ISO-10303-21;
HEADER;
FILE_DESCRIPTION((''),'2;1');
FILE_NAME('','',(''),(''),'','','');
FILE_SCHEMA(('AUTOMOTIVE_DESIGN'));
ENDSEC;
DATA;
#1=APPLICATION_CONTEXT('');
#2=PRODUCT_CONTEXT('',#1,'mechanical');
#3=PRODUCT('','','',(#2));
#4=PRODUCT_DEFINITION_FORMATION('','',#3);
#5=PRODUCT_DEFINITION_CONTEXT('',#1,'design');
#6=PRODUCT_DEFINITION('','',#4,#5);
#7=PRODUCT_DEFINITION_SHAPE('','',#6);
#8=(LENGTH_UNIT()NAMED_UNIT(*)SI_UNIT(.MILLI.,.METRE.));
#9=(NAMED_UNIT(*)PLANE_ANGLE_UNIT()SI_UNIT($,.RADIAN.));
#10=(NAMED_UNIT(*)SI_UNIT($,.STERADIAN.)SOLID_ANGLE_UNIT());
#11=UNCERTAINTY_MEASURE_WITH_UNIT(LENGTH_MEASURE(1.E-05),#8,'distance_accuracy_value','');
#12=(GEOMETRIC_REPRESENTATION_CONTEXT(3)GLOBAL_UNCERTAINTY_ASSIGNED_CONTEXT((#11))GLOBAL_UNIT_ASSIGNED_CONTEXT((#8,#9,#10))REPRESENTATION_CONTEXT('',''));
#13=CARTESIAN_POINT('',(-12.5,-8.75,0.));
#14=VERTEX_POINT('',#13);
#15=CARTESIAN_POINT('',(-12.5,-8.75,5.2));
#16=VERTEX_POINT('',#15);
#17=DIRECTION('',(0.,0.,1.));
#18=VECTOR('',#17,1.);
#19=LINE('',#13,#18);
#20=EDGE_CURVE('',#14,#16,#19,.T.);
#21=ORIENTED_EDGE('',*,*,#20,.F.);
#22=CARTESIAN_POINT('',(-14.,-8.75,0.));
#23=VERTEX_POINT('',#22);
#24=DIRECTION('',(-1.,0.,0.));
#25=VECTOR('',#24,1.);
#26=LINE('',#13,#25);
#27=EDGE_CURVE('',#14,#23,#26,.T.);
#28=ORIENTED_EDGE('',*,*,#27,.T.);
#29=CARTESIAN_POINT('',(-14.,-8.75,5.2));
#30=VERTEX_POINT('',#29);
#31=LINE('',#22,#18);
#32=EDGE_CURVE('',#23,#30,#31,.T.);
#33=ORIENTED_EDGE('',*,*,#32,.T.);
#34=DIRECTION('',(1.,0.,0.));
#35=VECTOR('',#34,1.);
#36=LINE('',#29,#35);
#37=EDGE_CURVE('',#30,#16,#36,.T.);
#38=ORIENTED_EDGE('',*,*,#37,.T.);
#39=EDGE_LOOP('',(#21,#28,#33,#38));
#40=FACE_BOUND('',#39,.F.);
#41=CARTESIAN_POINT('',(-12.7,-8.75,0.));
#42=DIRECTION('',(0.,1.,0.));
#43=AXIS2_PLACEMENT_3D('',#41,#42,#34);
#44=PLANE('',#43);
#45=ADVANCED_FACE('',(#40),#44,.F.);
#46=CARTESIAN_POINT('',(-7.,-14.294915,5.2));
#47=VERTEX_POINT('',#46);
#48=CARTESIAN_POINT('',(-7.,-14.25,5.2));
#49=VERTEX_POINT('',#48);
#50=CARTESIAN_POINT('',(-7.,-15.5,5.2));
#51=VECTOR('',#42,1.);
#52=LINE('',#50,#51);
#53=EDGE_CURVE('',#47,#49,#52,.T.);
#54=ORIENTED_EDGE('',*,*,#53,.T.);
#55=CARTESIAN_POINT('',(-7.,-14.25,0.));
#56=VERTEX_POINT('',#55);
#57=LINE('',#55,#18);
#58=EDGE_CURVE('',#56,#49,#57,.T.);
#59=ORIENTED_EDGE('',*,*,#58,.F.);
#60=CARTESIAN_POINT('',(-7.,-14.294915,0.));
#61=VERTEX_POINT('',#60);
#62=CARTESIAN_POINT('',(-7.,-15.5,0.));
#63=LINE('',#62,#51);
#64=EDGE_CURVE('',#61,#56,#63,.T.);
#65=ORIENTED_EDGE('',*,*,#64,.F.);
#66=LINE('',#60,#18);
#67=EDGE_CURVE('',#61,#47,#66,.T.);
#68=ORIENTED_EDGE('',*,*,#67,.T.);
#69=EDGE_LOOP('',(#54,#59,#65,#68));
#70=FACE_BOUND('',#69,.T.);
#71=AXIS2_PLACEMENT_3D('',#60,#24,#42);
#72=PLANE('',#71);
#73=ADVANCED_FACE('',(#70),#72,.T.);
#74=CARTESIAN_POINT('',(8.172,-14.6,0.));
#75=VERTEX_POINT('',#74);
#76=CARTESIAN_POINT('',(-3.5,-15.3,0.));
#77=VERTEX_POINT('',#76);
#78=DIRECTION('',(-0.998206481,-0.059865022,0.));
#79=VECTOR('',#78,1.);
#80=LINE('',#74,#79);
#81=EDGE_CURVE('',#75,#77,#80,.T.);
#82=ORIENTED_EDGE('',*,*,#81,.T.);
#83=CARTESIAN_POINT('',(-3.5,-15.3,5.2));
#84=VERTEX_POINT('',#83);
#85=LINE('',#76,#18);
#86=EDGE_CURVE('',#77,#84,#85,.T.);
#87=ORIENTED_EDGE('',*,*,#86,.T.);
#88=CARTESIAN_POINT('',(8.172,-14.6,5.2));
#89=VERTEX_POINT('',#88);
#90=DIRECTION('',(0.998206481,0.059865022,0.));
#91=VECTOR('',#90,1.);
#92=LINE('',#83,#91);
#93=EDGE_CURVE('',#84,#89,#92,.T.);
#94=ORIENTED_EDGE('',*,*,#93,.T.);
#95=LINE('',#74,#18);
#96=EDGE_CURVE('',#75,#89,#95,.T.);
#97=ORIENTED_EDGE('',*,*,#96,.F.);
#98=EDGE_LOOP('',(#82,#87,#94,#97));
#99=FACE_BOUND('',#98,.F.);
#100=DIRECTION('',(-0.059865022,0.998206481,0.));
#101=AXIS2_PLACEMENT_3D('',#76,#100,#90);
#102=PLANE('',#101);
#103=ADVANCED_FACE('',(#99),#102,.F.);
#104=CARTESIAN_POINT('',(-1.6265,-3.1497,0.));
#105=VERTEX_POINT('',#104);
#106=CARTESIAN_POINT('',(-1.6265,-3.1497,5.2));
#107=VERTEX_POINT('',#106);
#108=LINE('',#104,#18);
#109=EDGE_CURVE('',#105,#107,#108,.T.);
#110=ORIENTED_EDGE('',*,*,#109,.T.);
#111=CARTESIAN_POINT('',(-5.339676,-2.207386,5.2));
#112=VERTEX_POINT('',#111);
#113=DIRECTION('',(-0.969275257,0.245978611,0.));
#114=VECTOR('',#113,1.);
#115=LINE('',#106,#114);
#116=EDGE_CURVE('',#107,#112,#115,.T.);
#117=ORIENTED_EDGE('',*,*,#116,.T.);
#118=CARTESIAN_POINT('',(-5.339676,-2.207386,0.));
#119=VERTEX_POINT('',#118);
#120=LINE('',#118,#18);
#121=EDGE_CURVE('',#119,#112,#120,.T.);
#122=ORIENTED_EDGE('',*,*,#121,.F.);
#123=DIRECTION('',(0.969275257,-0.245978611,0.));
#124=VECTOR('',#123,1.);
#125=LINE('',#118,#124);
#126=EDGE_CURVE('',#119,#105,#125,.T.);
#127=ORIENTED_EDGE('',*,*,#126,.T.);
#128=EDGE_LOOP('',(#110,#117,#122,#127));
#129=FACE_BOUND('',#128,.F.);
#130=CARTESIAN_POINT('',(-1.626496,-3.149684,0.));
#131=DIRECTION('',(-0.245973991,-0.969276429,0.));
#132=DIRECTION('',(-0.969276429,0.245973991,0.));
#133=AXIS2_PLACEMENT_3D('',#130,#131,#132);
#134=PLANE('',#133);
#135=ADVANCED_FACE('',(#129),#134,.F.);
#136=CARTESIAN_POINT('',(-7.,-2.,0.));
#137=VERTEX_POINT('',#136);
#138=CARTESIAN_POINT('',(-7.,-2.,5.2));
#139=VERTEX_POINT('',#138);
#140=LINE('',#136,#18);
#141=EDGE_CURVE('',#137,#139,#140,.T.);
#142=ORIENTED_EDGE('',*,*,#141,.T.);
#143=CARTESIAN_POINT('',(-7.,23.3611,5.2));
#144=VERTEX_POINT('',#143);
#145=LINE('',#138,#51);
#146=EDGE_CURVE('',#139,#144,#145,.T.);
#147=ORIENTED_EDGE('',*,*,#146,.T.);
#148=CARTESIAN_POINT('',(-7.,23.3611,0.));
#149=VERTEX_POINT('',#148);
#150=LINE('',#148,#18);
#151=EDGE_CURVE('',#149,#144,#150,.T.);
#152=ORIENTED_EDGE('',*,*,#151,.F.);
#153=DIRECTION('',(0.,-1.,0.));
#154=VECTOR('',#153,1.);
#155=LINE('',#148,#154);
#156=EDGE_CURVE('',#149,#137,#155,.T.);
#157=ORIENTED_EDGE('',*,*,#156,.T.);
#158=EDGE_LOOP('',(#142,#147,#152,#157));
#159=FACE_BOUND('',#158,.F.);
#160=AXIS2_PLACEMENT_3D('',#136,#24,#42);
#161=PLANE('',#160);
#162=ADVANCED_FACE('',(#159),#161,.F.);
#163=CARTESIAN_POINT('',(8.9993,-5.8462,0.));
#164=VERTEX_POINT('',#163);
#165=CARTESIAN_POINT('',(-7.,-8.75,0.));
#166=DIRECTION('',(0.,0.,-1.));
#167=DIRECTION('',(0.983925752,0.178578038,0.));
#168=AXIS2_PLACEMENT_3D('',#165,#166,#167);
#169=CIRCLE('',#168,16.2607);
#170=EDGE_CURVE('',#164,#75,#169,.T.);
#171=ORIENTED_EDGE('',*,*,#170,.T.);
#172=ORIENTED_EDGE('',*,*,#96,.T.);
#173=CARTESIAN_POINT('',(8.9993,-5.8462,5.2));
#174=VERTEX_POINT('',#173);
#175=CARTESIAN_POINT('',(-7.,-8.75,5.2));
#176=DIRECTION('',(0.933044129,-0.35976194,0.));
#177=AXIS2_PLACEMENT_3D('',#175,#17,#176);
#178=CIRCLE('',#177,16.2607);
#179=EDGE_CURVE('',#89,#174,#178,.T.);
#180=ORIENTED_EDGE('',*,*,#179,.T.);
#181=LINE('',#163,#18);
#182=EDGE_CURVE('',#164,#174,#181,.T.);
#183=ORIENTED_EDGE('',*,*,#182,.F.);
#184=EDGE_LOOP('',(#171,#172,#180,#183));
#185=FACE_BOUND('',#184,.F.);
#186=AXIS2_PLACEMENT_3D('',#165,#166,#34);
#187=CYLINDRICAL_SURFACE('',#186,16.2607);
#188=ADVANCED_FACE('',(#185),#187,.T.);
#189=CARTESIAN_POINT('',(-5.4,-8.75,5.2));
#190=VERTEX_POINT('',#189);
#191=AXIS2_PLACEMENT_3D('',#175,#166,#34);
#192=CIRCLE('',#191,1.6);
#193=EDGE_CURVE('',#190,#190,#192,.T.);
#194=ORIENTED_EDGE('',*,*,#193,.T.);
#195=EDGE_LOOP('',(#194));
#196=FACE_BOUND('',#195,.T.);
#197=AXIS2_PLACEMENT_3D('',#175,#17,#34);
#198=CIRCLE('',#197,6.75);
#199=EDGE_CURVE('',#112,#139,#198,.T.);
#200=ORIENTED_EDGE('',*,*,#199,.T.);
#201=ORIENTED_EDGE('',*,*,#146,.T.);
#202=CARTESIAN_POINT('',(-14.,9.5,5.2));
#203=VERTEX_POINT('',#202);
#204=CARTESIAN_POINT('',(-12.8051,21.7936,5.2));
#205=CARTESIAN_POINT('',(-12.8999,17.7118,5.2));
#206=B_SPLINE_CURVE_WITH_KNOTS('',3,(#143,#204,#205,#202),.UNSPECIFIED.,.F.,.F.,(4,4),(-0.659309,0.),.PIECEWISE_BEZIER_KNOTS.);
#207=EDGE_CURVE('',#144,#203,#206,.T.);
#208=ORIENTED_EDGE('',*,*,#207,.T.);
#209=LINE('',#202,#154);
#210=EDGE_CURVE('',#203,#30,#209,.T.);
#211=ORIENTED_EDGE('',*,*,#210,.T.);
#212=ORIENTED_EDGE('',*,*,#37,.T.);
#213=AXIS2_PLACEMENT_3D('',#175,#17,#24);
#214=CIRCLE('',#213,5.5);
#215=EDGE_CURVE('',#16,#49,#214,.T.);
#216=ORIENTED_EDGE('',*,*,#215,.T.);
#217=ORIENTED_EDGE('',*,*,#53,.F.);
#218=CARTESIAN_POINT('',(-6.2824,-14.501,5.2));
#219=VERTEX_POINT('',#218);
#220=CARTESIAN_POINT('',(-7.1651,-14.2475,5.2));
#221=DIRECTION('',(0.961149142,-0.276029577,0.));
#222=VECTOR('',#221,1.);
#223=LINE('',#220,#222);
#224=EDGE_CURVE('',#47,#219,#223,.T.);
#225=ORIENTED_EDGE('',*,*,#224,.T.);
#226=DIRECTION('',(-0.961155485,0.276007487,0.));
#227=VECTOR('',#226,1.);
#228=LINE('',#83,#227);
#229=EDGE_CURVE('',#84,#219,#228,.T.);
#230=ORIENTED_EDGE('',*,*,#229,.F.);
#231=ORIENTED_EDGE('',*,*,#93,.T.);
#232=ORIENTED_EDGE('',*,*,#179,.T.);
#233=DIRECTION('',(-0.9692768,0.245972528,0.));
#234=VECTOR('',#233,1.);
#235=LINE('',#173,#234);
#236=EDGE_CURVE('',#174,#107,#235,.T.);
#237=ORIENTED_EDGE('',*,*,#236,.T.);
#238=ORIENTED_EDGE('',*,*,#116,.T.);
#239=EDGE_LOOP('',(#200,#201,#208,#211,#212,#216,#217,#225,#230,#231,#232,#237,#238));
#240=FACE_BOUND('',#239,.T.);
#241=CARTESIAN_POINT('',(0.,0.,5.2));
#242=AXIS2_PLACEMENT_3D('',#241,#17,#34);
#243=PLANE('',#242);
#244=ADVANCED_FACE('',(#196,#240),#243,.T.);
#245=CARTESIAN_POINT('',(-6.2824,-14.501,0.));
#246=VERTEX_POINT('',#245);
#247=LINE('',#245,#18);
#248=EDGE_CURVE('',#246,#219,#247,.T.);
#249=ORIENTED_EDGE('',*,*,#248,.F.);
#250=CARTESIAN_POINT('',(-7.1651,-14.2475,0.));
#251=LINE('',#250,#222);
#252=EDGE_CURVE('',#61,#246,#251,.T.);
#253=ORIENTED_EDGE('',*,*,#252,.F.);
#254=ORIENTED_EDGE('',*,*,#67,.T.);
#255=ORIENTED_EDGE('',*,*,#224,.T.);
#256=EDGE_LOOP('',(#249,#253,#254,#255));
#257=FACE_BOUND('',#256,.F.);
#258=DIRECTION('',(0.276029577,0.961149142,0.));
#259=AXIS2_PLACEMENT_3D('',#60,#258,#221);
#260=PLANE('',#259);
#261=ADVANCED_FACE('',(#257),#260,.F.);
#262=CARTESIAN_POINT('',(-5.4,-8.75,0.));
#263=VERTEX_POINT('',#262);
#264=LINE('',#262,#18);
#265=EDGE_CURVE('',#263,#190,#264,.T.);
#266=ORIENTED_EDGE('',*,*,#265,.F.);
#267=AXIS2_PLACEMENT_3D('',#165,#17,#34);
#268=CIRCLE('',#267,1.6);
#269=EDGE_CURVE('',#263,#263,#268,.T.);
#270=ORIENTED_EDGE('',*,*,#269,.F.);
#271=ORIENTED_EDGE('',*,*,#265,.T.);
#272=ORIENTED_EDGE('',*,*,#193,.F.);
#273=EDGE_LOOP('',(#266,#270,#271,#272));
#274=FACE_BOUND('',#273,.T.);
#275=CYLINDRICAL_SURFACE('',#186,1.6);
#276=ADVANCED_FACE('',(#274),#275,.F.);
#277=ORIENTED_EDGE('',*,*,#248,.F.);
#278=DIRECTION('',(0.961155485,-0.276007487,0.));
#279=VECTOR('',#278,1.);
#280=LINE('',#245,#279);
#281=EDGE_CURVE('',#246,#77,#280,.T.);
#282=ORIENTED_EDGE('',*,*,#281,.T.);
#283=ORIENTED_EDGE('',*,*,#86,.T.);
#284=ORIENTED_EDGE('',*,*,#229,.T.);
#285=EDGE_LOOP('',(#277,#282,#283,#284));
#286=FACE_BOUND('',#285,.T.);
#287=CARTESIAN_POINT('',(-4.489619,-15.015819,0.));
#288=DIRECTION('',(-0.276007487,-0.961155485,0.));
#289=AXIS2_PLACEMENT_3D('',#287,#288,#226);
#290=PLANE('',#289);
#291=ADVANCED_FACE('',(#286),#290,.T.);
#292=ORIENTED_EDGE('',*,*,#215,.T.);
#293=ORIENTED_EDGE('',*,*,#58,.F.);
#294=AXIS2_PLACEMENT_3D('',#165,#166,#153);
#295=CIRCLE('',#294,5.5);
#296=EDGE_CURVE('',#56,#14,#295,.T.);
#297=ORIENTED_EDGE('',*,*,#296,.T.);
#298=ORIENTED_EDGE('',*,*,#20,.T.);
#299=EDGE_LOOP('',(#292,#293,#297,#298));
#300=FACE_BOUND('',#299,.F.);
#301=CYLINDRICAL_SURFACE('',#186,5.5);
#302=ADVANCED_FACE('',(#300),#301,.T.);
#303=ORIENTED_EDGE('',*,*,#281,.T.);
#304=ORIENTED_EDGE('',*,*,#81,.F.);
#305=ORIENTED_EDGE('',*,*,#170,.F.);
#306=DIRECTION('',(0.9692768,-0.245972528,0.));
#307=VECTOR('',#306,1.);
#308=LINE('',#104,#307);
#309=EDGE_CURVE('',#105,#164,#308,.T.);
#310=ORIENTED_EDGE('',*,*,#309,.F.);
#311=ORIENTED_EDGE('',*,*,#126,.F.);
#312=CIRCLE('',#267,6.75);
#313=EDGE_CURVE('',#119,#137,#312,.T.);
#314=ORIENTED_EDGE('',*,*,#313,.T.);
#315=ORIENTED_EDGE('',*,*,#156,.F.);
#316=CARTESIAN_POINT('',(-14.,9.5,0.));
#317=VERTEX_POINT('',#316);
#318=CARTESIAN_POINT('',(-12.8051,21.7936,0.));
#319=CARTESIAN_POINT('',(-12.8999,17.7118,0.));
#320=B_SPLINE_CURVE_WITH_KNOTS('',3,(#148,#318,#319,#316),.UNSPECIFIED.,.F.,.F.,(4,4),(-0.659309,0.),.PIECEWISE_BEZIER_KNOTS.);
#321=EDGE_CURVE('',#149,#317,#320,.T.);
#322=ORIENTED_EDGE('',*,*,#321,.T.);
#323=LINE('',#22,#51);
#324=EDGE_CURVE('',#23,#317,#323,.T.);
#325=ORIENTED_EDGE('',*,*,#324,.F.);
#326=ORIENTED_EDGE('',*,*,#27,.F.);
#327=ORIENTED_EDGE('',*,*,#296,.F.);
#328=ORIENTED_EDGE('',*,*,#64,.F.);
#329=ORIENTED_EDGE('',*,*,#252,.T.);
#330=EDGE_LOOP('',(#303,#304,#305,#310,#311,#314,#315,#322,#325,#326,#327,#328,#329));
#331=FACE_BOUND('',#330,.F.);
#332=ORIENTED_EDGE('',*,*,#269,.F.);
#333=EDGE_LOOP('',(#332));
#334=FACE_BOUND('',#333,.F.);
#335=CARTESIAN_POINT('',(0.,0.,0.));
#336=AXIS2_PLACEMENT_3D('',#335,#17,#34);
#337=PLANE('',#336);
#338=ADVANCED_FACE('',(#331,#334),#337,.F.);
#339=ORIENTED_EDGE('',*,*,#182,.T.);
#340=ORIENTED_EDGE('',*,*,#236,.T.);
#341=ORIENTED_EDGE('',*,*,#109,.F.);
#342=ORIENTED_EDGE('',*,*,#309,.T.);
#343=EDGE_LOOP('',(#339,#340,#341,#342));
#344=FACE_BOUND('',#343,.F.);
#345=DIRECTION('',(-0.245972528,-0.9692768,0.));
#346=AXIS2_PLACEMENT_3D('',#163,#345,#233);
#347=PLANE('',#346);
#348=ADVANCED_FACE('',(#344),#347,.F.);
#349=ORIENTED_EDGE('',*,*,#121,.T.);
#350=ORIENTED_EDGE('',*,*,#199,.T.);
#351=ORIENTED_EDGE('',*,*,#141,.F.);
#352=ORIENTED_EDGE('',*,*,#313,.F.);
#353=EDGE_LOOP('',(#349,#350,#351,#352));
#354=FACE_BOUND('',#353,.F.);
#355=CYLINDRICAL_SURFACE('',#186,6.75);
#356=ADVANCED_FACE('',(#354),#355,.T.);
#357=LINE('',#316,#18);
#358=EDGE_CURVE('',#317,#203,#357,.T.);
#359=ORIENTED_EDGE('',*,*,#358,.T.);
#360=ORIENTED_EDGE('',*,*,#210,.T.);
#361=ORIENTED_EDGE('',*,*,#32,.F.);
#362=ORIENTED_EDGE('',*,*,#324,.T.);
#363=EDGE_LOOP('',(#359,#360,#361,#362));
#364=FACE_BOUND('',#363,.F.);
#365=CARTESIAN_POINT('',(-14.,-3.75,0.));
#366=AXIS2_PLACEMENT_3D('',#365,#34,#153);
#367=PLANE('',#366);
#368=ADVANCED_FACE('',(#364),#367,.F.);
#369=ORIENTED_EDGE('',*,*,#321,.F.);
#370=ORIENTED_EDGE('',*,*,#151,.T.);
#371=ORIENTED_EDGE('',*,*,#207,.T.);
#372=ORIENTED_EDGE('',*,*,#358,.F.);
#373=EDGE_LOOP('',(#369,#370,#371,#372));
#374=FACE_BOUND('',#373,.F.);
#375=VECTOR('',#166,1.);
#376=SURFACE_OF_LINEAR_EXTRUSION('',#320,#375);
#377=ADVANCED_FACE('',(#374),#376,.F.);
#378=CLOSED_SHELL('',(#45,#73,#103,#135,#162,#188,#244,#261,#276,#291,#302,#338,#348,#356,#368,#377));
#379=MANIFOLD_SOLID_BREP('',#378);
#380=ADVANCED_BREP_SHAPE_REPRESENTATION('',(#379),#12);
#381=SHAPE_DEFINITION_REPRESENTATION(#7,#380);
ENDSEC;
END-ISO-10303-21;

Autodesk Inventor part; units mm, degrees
ref_plane "YZ Plane" through (0, 0, 0) normal (1, 0, 0) x (0, 1, 0)
ref_plane "XZ Plane" through (0, 0, 0) normal (0, 1, 0) x (-1, 0, 0)
ref_plane "XY Plane" through (0, 0, 0) normal (0, 0, 1) x (1, 0, 0)
sketch "Эскиз1" plane through (0, 0, 0) normal (0, 0, 1) x (1, 0, 0)
  circle A0 centre (-7, -17) radius 1.5 projected
  line L0 (14, -14.4) -> (14, -5) projected
  arc A1 (14, -5) -> (11, -2) centre (11, -5) ccw projected
  line L1 (11, -2) -> (-7, -2) projected
  line L2 (-7, -2) -> (-7, 15) projected
  line L3 (-14, 9.5) -> (-14, -8.75) projected
  line L4 (-7, -24) -> (7, -24) projected
  arc A2 (7, -24) -> (13.4992, -14.4) centre (7, -17) ccw projected
  line L5 (13.4992, -14.4) -> (14, -14.4) projected
  circle A3 centre (7, -17) radius 2.5 projected
  circle A4 centre (-7, -8.75) radius 5.5 projected
  circle A5 centre (-7, -8.75) radius 6.75 projected
  circle A6 centre (-7, -8.75) radius 5.5 projected
  circle A7 centre (-7, -8.75) radius 16.2607 projected
  circle A8 centre (-7, -8.75) radius 6.75 projected
  circle A9 centre (-7, -8.75) radius 5.5 projected
  arc A10 (46.8183, -61.5099) -> (48.485, -59.5378) centre (46.485, -59.5378) ccw projected
  line L6 (48.485, -59.5378) -> (48.485, -18) projected
  arc A11 (51.485, -15) -> (48.485, -18) centre (51.485, -18) ccw projected
  line L7 (51.485, -15) -> (51.97, -15) projected
  arc A12 (51.97, -15) -> (54.97, -12) centre (51.97, -12) ccw projected
  line L8 (54.97, -5) -> (54.97, -12) projected
  arc A13 (54.97, -5) -> (51.97, -2) centre (51.97, -5) ccw projected
  line L9 (-0.3729, -2) -> (51.97, -2) projected
  arc A14 (-0.3729, -2) -> (-11.03, -11.2398) centre (-0.1714, -12.9982) ccw projected
  line L10 (-11.03, -11.2398) -> (-11.03, -20.501) projected
  arc A15 (-11.03, -20.501) -> (-9.8871, -23.3004) centre (-7.03, -20.501) ccw projected
  arc A16 (-9.03, -25.4) -> (-9.8871, -23.3004) centre (-12.03, -25.4) ccw projected
  line L11 (-9.03, -25.4) -> (-9.03, -104.6) projected
  arc A17 (-9.8871, -106.6996) -> (-9.03, -104.6) centre (-12.03, -104.6) ccw projected
  arc A18 (-9.8871, -106.6996) -> (-11.03, -109.499) centre (-7.03, -109.499) ccw projected
  line L12 (-11.03, -109.499) -> (-11.03, -118.7602) projected
  arc A19 (-11.03, -118.7602) -> (-0.3729, -128) centre (-0.1714, -117.0018) ccw projected
  line L13 (51.97, -128) -> (-0.3729, -128) projected
  arc A20 (51.97, -128) -> (54.97, -125) centre (51.97, -125) ccw projected
  line L14 (54.97, -118) -> (54.97, -125) projected
  arc A21 (54.97, -118) -> (51.97, -115) centre (51.97, -118) ccw projected
  line L15 (51.97, -115) -> (51.485, -115) projected
  arc A22 (48.485, -112) -> (51.485, -115) centre (51.485, -112) ccw projected
  line L16 (48.485, -112) -> (48.485, -80.5022) projected
  arc A23 (48.485, -80.5022) -> (46.8183, -78.5301) centre (46.485, -80.5022) ccw projected
  arc A24 (43.485, -77.3303) -> (46.8183, -78.5301) centre (48.485, -68.67) ccw projected
  arc A25 (42.485, -75.5982) -> (43.485, -77.3303) centre (44.485, -75.5982) ccw projected
  line L17 (42.485, -75.5982) -> (42.485, -64.4418) projected
  arc A26 (43.485, -62.7097) -> (42.485, -64.4418) centre (44.485, -64.4418) ccw projected
  arc A27 (46.8183, -61.5099) -> (43.485, -62.7097) centre (48.485, -71.37) ccw projected
  circle A28 centre (-7, -113) radius 1.5 projected
  circle A29 centre (-7, -17) radius 1.5 projected
  circle A30 centre (48.485, -121.515) radius 1.5 projected
  circle A31 centre (7, -83) radius 1.5 projected
  circle A32 centre (7, -47) radius 1.5 projected
  circle A33 centre (48.485, -8.485) radius 1.5 projected
  circle A34 centre (39.485, -9.27) radius 0.325 projected
  circle A35 centre (38.885, -57.77) radius 0.8 projected
  circle A36 centre (39.385, -64.52) radius 0.5 projected
  circle A37 centre (-5.73, -68.27) radius 0.325 projected
  circle A38 centre (18.2, -105.38) radius 0.325 projected
  circle A39 centre (2.77, -17) radius 0.325 projected
  circle A40 centre (45.185, -81.79) radius 0.325 projected
  circle A41 centre (45.185, -36.51) radius 0.325 projected
  circle A42 centre (2.77, -10) radius 0.325 projected
  circle A43 centre (2.77, -120) radius 0.325 projected
  circle A44 centre (-5.73, -55.42) radius 0.325 projected
  circle A45 centre (29.385, -72.52) radius 0.85 projected
  circle A46 centre (43.885, -57.77) radius 0.8 projected
  circle A47 centre (-1.23, -120) radius 0.325 projected
  circle A48 centre (29.385, -67.52) radius 0.85 projected
  circle A49 centre (18.2, -92.76) radius 0.325 projected
  circle A50 centre (-5.73, -79) radius 0.325 projected
  circle A51 centre (35.215, -122) radius 0.325 projected
  circle A52 centre (33.485, -7.27) radius 0.5 projected
  circle A53 centre (45.185, -101.03) radius 0.325 projected
  circle A54 centre (45.185, -16.27) radius 0.325 projected
  circle A55 centre (35.215, -115) radius 0.325 projected
  circle A56 centre (2.77, -113) radius 0.325 projected
  circle A57 centre (-5.73, -40.84) radius 0.325 projected
  circle A58 centre (39.385, -75.52) radius 0.5 projected
  circle A59 centre (-1.23, -10) radius 0.325 projected
  arc A60 (46.8183, -61.5099) -> (48.485, -59.5378) centre (46.485, -59.5378) ccw projected
  line L18 (48.485, -59.5378) -> (48.485, -18) projected
  arc A61 (51.485, -15) -> (48.485, -18) centre (51.485, -18) ccw projected
  line L19 (51.485, -15) -> (51.97, -15) projected
  arc A62 (51.97, -15) -> (54.97, -12) centre (51.97, -12) ccw projected
  line L20 (54.97, -5) -> (54.97, -12) projected
  arc A63 (54.97, -5) -> (51.97, -2) centre (51.97, -5) ccw projected
  line L21 (-0.3729, -2) -> (51.97, -2) projected
  arc A64 (-0.3729, -2) -> (-11.03, -11.2398) centre (-0.1714, -12.9982) ccw projected
  line L22 (-11.03, -11.2398) -> (-11.03, -20.501) projected
  arc A65 (-11.03, -20.501) -> (-9.8871, -23.3004) centre (-7.03, -20.501) ccw projected
  arc A66 (-9.03, -25.4) -> (-9.8871, -23.3004) centre (-12.03, -25.4) ccw projected
  line L23 (-9.03, -25.4) -> (-9.03, -104.6) projected
  arc A67 (-9.8871, -106.6996) -> (-9.03, -104.6) centre (-12.03, -104.6) ccw projected
  arc A68 (-9.8871, -106.6996) -> (-11.03, -109.499) centre (-7.03, -109.499) ccw projected
  line L24 (-11.03, -109.499) -> (-11.03, -118.7602) projected
  arc A69 (-11.03, -118.7602) -> (-0.3729, -128) centre (-0.1714, -117.0018) ccw projected
  line L25 (51.97, -128) -> (-0.3729, -128) projected
  arc A70 (51.97, -128) -> (54.97, -125) centre (51.97, -125) ccw projected
  line L26 (54.97, -118) -> (54.97, -125) projected
  arc A71 (54.97, -118) -> (51.97, -115) centre (51.97, -118) ccw projected
  line L27 (51.97, -115) -> (51.485, -115) projected
  arc A72 (48.485, -112) -> (51.485, -115) centre (51.485, -112) ccw projected
  line L28 (48.485, -112) -> (48.485, -80.5022) projected
  arc A73 (48.485, -80.5022) -> (46.8183, -78.5301) centre (46.485, -80.5022) ccw projected
  arc A74 (43.485, -77.3303) -> (46.8183, -78.5301) centre (48.485, -68.67) ccw projected
  arc A75 (42.485, -75.5982) -> (43.485, -77.3303) centre (44.485, -75.5982) ccw projected
  line L29 (42.485, -75.5982) -> (42.485, -64.4418) projected
  arc A76 (43.485, -62.7097) -> (42.485, -64.4418) centre (44.485, -64.4418) ccw projected
  arc A77 (46.8183, -61.5099) -> (43.485, -62.7097) centre (48.485, -71.37) ccw projected
  circle A78 centre (-7, -113) radius 1.5 projected
  circle A79 centre (-7, -17) radius 1.5 projected
  circle A80 centre (48.485, -121.515) radius 1.5 projected
  circle A81 centre (7, -83) radius 1.5 projected
  circle A82 centre (7, -47) radius 1.5 projected
  circle A83 centre (48.485, -8.485) radius 1.5 projected
  circle A84 centre (39.485, -9.27) radius 0.325 projected
  circle A85 centre (38.885, -57.77) radius 0.8 projected
  circle A86 centre (39.385, -64.52) radius 0.5 projected
  circle A87 centre (-5.73, -68.27) radius 0.325 projected
  circle A88 centre (18.2, -105.38) radius 0.325 projected
  circle A89 centre (2.77, -17) radius 0.325 projected
  circle A90 centre (45.185, -81.79) radius 0.325 projected
  circle A91 centre (45.185, -36.51) radius 0.325 projected
  circle A92 centre (2.77, -10) radius 0.325 projected
  circle A93 centre (2.77, -120) radius 0.325 projected
  circle A94 centre (-5.73, -55.42) radius 0.325 projected
  circle A95 centre (29.385, -72.52) radius 0.85 projected
  circle A96 centre (43.885, -57.77) radius 0.8 projected
  circle A97 centre (-1.23, -120) radius 0.325 projected
  circle A98 centre (29.385, -67.52) radius 0.85 projected
  circle A99 centre (18.2, -92.76) radius 0.325 projected
  circle A100 centre (-5.73, -79) radius 0.325 projected
  circle A101 centre (35.215, -122) radius 0.325 projected
  circle A102 centre (33.485, -7.27) radius 0.5 projected
  circle A103 centre (45.185, -101.03) radius 0.325 projected
  circle A104 centre (45.185, -16.27) radius 0.325 projected
  circle A105 centre (35.215, -115) radius 0.325 projected
  circle A106 centre (2.77, -113) radius 0.325 projected
  circle A107 centre (-5.73, -40.84) radius 0.325 projected
  circle A108 centre (39.385, -75.52) radius 0.5 projected
  circle A109 centre (-1.23, -10) radius 0.325 projected
  circle A110 centre (-7, -17) radius 1.5 projected
  circle A111 centre (7, -17) radius 2.5 projected
  circle A112 centre (-7, -8.75) radius 16.2607 projected
  arc A113 (46.8183, -61.5099) -> (48.485, -59.5378) centre (46.485, -59.5378) ccw projected
  line L30 (48.485, -59.5378) -> (48.485, -18) projected
  arc A114 (51.485, -15) -> (48.485, -18) centre (51.485, -18) ccw projected
  line L31 (51.485, -15) -> (51.97, -15) projected
  arc A115 (51.97, -15) -> (54.97, -12) centre (51.97, -12) ccw projected
  line L32 (54.97, -5) -> (54.97, -12) projected
  arc A116 (54.97, -5) -> (51.97, -2) centre (51.97, -5) ccw projected
  line L33 (-0.3729, -2) -> (51.97, -2) projected
  arc A117 (-0.3729, -2) -> (-11.03, -11.2398) centre (-0.1714, -12.9982) ccw projected
  line L34 (-11.03, -11.2398) -> (-11.03, -20.501) projected
  arc A118 (-11.03, -20.501) -> (-9.8871, -23.3004) centre (-7.03, -20.501) ccw projected
  arc A119 (-9.03, -25.4) -> (-9.8871, -23.3004) centre (-12.03, -25.4) ccw projected
  line L35 (-9.03, -25.4) -> (-9.03, -104.6) projected
  arc A120 (-9.8871, -106.6996) -> (-9.03, -104.6) centre (-12.03, -104.6) ccw projected
  arc A121 (-9.8871, -106.6996) -> (-11.03, -109.499) centre (-7.03, -109.499) ccw projected
  line L36 (-11.03, -109.499) -> (-11.03, -118.7602) projected
  arc A122 (-11.03, -118.7602) -> (-0.3729, -128) centre (-0.1714, -117.0018) ccw projected
  line L37 (51.97, -128) -> (-0.3729, -128) projected
  arc A123 (51.97, -128) -> (54.97, -125) centre (51.97, -125) ccw projected
  line L38 (54.97, -118) -> (54.97, -125) projected
  arc A124 (54.97, -118) -> (51.97, -115) centre (51.97, -118) ccw projected
  line L39 (51.97, -115) -> (51.485, -115) projected
  arc A125 (48.485, -112) -> (51.485, -115) centre (51.485, -112) ccw projected
  line L40 (48.485, -112) -> (48.485, -80.5022) projected
  arc A126 (48.485, -80.5022) -> (46.8183, -78.5301) centre (46.485, -80.5022) ccw projected
  arc A127 (43.485, -77.3303) -> (46.8183, -78.5301) centre (48.485, -68.67) ccw projected
  arc A128 (42.485, -75.5982) -> (43.485, -77.3303) centre (44.485, -75.5982) ccw projected
  line L41 (42.485, -75.5982) -> (42.485, -64.4418) projected
  arc A129 (43.485, -62.7097) -> (42.485, -64.4418) centre (44.485, -64.4418) ccw projected
  arc A130 (46.8183, -61.5099) -> (43.485, -62.7097) centre (48.485, -71.37) ccw projected
  circle A131 centre (-7, -113) radius 1.5 projected
  circle A132 centre (-7, -17) radius 1.5 projected
  circle A133 centre (48.485, -121.515) radius 1.5 projected
  circle A134 centre (7, -83) radius 1.5 projected
  circle A135 centre (7, -47) radius 1.5 projected
  circle A136 centre (48.485, -8.485) radius 1.5 projected
  circle A137 centre (39.485, -9.27) radius 0.325 projected
  circle A138 centre (38.885, -57.77) radius 0.8 projected
  circle A139 centre (39.385, -64.52) radius 0.5 projected
  circle A140 centre (-5.73, -68.27) radius 0.325 projected
  circle A141 centre (18.2, -105.38) radius 0.325 projected
  circle A142 centre (2.77, -17) radius 0.325 projected
  circle A143 centre (45.185, -81.79) radius 0.325 projected
  circle A144 centre (45.185, -36.51) radius 0.325 projected
  circle A145 centre (2.77, -10) radius 0.325 projected
  circle A146 centre (2.77, -120) radius 0.325 projected
  circle A147 centre (-5.73, -55.42) radius 0.325 projected
  circle A148 centre (29.385, -72.52) radius 0.85 projected
  circle A149 centre (43.885, -57.77) radius 0.8 projected
  circle A150 centre (-1.23, -120) radius 0.325 projected
  circle A151 centre (29.385, -67.52) radius 0.85 projected
  circle A152 centre (18.2, -92.76) radius 0.325 projected
  circle A153 centre (-5.73, -79) radius 0.325 projected
  circle A154 centre (35.215, -122) radius 0.325 projected
  circle A155 centre (33.485, -7.27) radius 0.5 projected
  circle A156 centre (45.185, -101.03) radius 0.325 projected
  circle A157 centre (45.185, -16.27) radius 0.325 projected
  circle A158 centre (35.215, -115) radius 0.325 projected
  circle A159 centre (2.77, -113) radius 0.325 projected
  circle A160 centre (-5.73, -40.84) radius 0.325 projected
  circle A161 centre (39.385, -75.52) radius 0.5 projected
  circle A162 centre (-1.23, -10) radius 0.325 projected
  line L42 (-3.5, -15.3) -> (8.172, -14.6) projected
  line L43 (-1.9964, -14.2379) -> (9.1448, -10.6884) projected
  line L44 (7.4875, -11.5) -> (-3.5, -15.5) projected
  line L45 (-3.5, -15.3) -> (8.172, -14.6) projected
  line L46 (8.172, -14.8) -> (-3.5, -15.5) projected
  arc A163 (8.1929, -15.5) -> (7.4875, -11.5) centre (-3.5, -15.5) ccw projected
  line L47 (-3.5, -15.5) -> (9.3, -15.5) projected
  line L48 (-3.5, -15.5) -> (9.3, -15.5) projected
  circle A164 centre (-7, -17) radius 1.5 projected
  line L49 (14, -14.4) -> (14, -5) projected
  arc A165 (14, -5) -> (11, -2) centre (11, -5) ccw projected
  line L50 (11, -2) -> (-7, -2) projected
  line L51 (-7, -2) -> (-7, 15) projected
  line L52 (-14, 9.5) -> (-14, -8.75) projected
  line L53 (-7, -24) -> (7, -24) projected
  arc A166 (7, -24) -> (13.4992, -14.4) centre (7, -17) ccw projected
  line L54 (13.4992, -14.4) -> (14, -14.4) projected
  circle A167 centre (7, -17) radius 2.5 projected
  circle A168 centre (-7, -17) radius 1.5 projected
  line L55 (14, -14.4) -> (14, -5) projected
  arc A169 (14, -5) -> (11, -2) centre (11, -5) ccw projected
  line L56 (11, -2) -> (-7, -2) projected
  line L57 (-7, -2) -> (-7, 15) projected
  line L58 (-14, 9.5) -> (-14, -8.75) projected
  line L59 (-7, -24) -> (7, -24) projected
  arc A170 (7, -24) -> (13.4992, -14.4) centre (7, -17) ccw projected
  line L60 (13.4992, -14.4) -> (14, -14.4) projected
  circle A171 centre (7, -17) radius 2.5 projected
  line L61 (-3.5, -25.6) -> (-3.5, -15.5) projected
  line L62 (-3.5, -25.6) -> (-3.5, -15.5) projected
  line L63 (-3.5, -15.3) -> (-6.2824, -14.501) projected
  circle A172 centre (-7, -17) radius 2.6 projected
  line L64 (-3.5, -15.5) -> (-7, -15.5) projected
  circle A173 centre (-7, -17) radius 1.5 projected
  line L65 (14, -14.4) -> (14, -5) projected
  arc A174 (14, -5) -> (11, -2) centre (11, -5) ccw projected
  line L66 (11, -2) -> (-7, -2) projected
  line L67 (-7, -2) -> (-7, 15) projected
  line L68 (-14, 9.5) -> (-14, -8.75) projected
  line L69 (-7, -24) -> (7, -24) projected
  arc A175 (7, -24) -> (13.4992, -14.4) centre (7, -17) ccw projected
  line L70 (13.4992, -14.4) -> (14, -14.4) projected
  circle A176 centre (7, -17) radius 2.5 projected
  circle A177 centre (-7, -17) radius 1.5 projected
  circle A178 centre (-7, -17) radius 2.6 projected
  circle A179 centre (-7, -8.75) radius 5.5 projected
  line L71 (-1.9964, -14.2379) -> (-4.8898, -14.1478) projected
  line L72 (-1.9964, -14.2379) -> (9.1448, -10.6884) projected
  line L73 (-1.9964, -14.2379) -> (9.1448, -10.6884) projected
  circle A180 centre (-7, -8.75) radius 6.75 projected
  line L74 (-5.8077, -14.1192) -> (-4.8898, -14.1478) projected
  line L75 (-5.8077, -14.1192) -> (-4.8898, -14.1478) projected
  circle A181 centre (-7, -8.75) radius 5.5 projected
  line L76 (-7, -15.5) -> (-7, -2) projected
  line L77 (-7.1651, -14.2475) -> (-6.2824, -14.501) projected
  line L78 (-3.5, -15.3) -> (-6.2824, -14.501) projected
  circle A182 centre (-7, -17) radius 1.5 projected
  line L79 (14, -14.4) -> (14, -5) projected
  arc A183 (14, -5) -> (11, -2) centre (11, -5) ccw projected
  line L80 (11, -2) -> (-7, -2) projected
  line L81 (-7, -2) -> (-7, 15) projected
  line L82 (-14, 9.5) -> (-14, -8.75) projected
  line L83 (-7, -24) -> (7, -24) projected
  arc A184 (7, -24) -> (13.4992, -14.4) centre (7, -17) ccw projected
  line L84 (13.4992, -14.4) -> (14, -14.4) projected
  circle A185 centre (7, -17) radius 2.5 projected
  circle A186 centre (-7, -17) radius 2.6 projected
  circle A187 centre (-7, -17) radius 2.6 projected
  line L85 (-7, -15.5) -> (-7, -2) projected
  circle A188 centre (-7, -17) radius 1.5 projected
  line L86 (14, -14.4) -> (14, -5) projected
  arc A189 (14, -5) -> (11, -2) centre (11, -5) ccw projected
  line L87 (11, -2) -> (-7, -2) projected
  line L88 (-7, -2) -> (-7, 15) projected
  line L89 (-14, 9.5) -> (-14, -8.75) projected
  line L90 (-7, -24) -> (7, -24) projected
  arc A190 (7, -24) -> (13.4992, -14.4) centre (7, -17) ccw projected
  line L91 (13.4992, -14.4) -> (14, -14.4) projected
  circle A191 centre (7, -17) radius 2.5 projected
  circle A192 centre (-7, -17) radius 1.5 projected
  line L92 (14, -14.4) -> (14, -5) projected
  arc A193 (14, -5) -> (11, -2) centre (11, -5) ccw projected
  line L93 (11, -2) -> (-7, -2) projected
  line L94 (-7, -2) -> (-7, 15) projected
  line L95 (-14, 9.5) -> (-14, -8.75) projected
  line L96 (-7, -24) -> (7, -24) projected
  arc A194 (7, -24) -> (13.4992, -14.4) centre (7, -17) ccw projected
  line L97 (13.4992, -14.4) -> (14, -14.4) projected
  circle A195 centre (7, -17) radius 2.5 projected
  circle A196 centre (-7, -8.75) radius 5.5 projected
  circle A197 centre (-7, -17) radius 1.5 projected
  line L98 (14, -14.4) -> (14, -5) projected
  arc A198 (14, -5) -> (11, -2) centre (11, -5) ccw projected
  line L99 (11, -2) -> (-7, -2) projected
  line L100 (-7, -2) -> (-7, 15) projected
  line L101 (-14, 9.5) -> (-14, -8.75) projected
  line L102 (-7, -24) -> (7, -24) projected
  arc A199 (7, -24) -> (13.4992, -14.4) centre (7, -17) ccw projected
  line L103 (13.4992, -14.4) -> (14, -14.4) projected
  circle A200 centre (7, -17) radius 2.5 projected
  circle A201 centre (-7, -8.75) radius 1.6 projected
  circle A202 centre (-7, -8.75) radius 1.6 projected
  line L104 (-7, -15.5) -> (-7, -2) projected
  circle A203 centre (-7, -17) radius 1.5 projected
  line L105 (14, -14.4) -> (14, -5) projected
  arc A204 (14, -5) -> (11, -2) centre (11, -5) ccw projected
  line L106 (11, -2) -> (-7, -2) projected
  line L107 (-7, -2) -> (-7, 15) projected
  line L108 (-14, 9.5) -> (-14, -8.75) projected
  line L109 (-7, -24) -> (7, -24) projected
  arc A205 (7, -24) -> (13.4992, -14.4) centre (7, -17) ccw projected
  line L110 (13.4992, -14.4) -> (14, -14.4) projected
  circle A206 centre (7, -17) radius 2.5 projected
  circle A207 centre (-7, -17) radius 1.5 projected
  line L111 (14, -14.4) -> (14, -5) projected
  arc A208 (14, -5) -> (11, -2) centre (11, -5) ccw projected
  line L112 (11, -2) -> (-7, -2) projected
  line L113 (-7, -2) -> (-7, 15) projected
  line L114 (-14, 9.5) -> (-14, -8.75) projected
  line L115 (-7, -24) -> (7, -24) projected
  arc A209 (7, -24) -> (13.4992, -14.4) centre (7, -17) ccw projected
  line L116 (13.4992, -14.4) -> (14, -14.4) projected
  circle A210 centre (7, -17) radius 2.5 projected
  line L117 (-7, -8.75) -> (8.9993, -5.8462) projected
  circle A211 centre (-7, -17) radius 1.5 projected
  line L118 (14, -14.4) -> (14, -5) projected
  arc A212 (14, -5) -> (11, -2) centre (11, -5) ccw projected
  line L119 (11, -2) -> (-7, -2) projected
  line L120 (-7, -2) -> (-7, 15) projected
  line L121 (-14, 9.5) -> (-14, -8.75) projected
  line L122 (-7, -24) -> (7, -24) projected
  arc A213 (7, -24) -> (13.4992, -14.4) centre (7, -17) ccw projected
  line L123 (13.4992, -14.4) -> (14, -14.4) projected
  circle A214 centre (7, -17) radius 2.5 projected
  line L124 (7.7935, -2) -> (-7, -8.75) projected
  line L125 (7.7935, -2) -> (-7, -8.75) projected
  circle A215 centre (-7, -17) radius 1.5 projected
  line L126 (14, -14.4) -> (14, -5) projected
  arc A216 (14, -5) -> (11, -2) centre (11, -5) ccw projected
  line L127 (11, -2) -> (-7, -2) projected
  line L128 (-7, -2) -> (-7, 15) projected
  line L129 (-14, 9.5) -> (-14, -8.75) projected
  line L130 (-7, -24) -> (7, -24) projected
  arc A217 (7, -24) -> (13.4992, -14.4) centre (7, -17) ccw projected
  line L131 (13.4992, -14.4) -> (14, -14.4) projected
  circle A218 centre (7, -17) radius 2.5 projected
  circle A219 centre (-7, -8.75) radius 6.75 projected
  circle A220 centre (-7, -17) radius 1.5 projected
  line L132 (14, -14.4) -> (14, -5) projected
  arc A221 (14, -5) -> (11, -2) centre (11, -5) ccw projected
  line L133 (11, -2) -> (-7, -2) projected
  line L134 (-7, -2) -> (-7, 15) projected
  line L135 (-14, 9.5) -> (-14, -8.75) projected
  line L136 (-7, -24) -> (7, -24) projected
  arc A222 (7, -24) -> (13.4992, -14.4) centre (7, -17) ccw projected
  line L137 (13.4992, -14.4) -> (14, -14.4) projected
  circle A223 centre (7, -17) radius 2.5 projected
  circle A224 centre (-7, -8.75) radius 6.75 projected
  circle A225 centre (-7, -17) radius 2.6 projected
  circle A226 centre (-7, -17) radius 2.6 projected
  circle A227 centre (-7, -17) radius 1.5 projected
  line L138 (14, -14.4) -> (14, -5) projected
  arc A228 (14, -5) -> (11, -2) centre (11, -5) ccw projected
  line L139 (11, -2) -> (-7, -2) projected
  line L140 (-7, -2) -> (-7, 15) projected
  line L141 (-14, 9.5) -> (-14, -8.75) projected
  line L142 (-7, -24) -> (7, -24) projected
  arc A229 (7, -24) -> (13.4992, -14.4) centre (7, -17) ccw projected
  line L143 (13.4992, -14.4) -> (14, -14.4) projected
  circle A230 centre (7, -17) radius 2.5 projected
  line L144 (8.9993, -5.8462) -> (-1.6265, -3.1497) projected
  line L145 (8.9993, -5.8462) -> (-1.6265, -3.1497) projected
  circle A231 centre (-7, -17) radius 1.5 projected
  line L146 (14, -14.4) -> (14, -5) projected
  arc A232 (14, -5) -> (11, -2) centre (11, -5) ccw projected
  line L147 (11, -2) -> (-7, -2) projected
  line L148 (-7, -2) -> (-7, 15) projected
  line L149 (-14, 9.5) -> (-14, -8.75) projected
  line L150 (-7, -24) -> (7, -24) projected
  arc A233 (7, -24) -> (13.4992, -14.4) centre (7, -17) ccw projected
  line L151 (13.4992, -14.4) -> (14, -14.4) projected
  circle A234 centre (7, -17) radius 2.5 projected
  circle A235 centre (-7, -17) radius 1.5 projected
  line L152 (14, -14.4) -> (14, -5) projected
  arc A236 (14, -5) -> (11, -2) centre (11, -5) ccw projected
  line L153 (11, -2) -> (-7, -2) projected
  line L154 (-7, -2) -> (-7, 15) projected
  line L155 (-14, 9.5) -> (-14, -8.75) projected
  line L156 (-7, -24) -> (7, -24) projected
  arc A237 (7, -24) -> (13.4992, -14.4) centre (7, -17) ccw projected
  line L157 (13.4992, -14.4) -> (14, -14.4) projected
  circle A238 centre (7, -17) radius 2.5 projected
  circle A239 centre (-7, -17) radius 1.5 projected
  line L158 (14, -14.4) -> (14, -5) projected
  arc A240 (14, -5) -> (11, -2) centre (11, -5) ccw projected
  line L159 (11, -2) -> (-7, -2) projected
  line L160 (-7, -2) -> (-7, 15) projected
  line L161 (-14, 9.5) -> (-14, -8.75) projected
  line L162 (-7, -24) -> (7, -24) projected
  arc A241 (7, -24) -> (13.4992, -14.4) centre (7, -17) ccw projected
  line L163 (13.4992, -14.4) -> (14, -14.4) projected
  circle A242 centre (7, -17) radius 2.5 projected
  circle A243 centre (-7, -8.75) radius 6.75 projected
  line L164 (11, -2) -> (-7, -2) projected
  circle A244 centre (-7, -17) radius 1.5 projected
  line L165 (14, -14.4) -> (14, -5) projected
  arc A245 (14, -5) -> (11, -2) centre (11, -5) ccw projected
  line L166 (11, -2) -> (-7, -2) projected
  line L167 (-7, -2) -> (-7, 15) projected
  line L168 (-14, 9.5) -> (-14, -8.75) projected
  line L169 (-7, -24) -> (7, -24) projected
  arc A246 (7, -24) -> (13.4992, -14.4) centre (7, -17) ccw projected
  line L170 (13.4992, -14.4) -> (14, -14.4) projected
  circle A247 centre (7, -17) radius 2.5 projected
  line L171 (-7, 15) -> (-7, 23.3611) projected
  line L172 (8.9993, -5.8462) -> (-1.6265, -3.1497) projected
  line L173 (8.9993, -5.8462) -> (-6.1569, -2) projected
  line L174 (8.9993, -5.8462) -> (-1.6265, -3.1497) projected
  line L175 (8.9993, -5.8462) -> (-6.1569, -2) projected
  line L176 (-14, -8.75) -> (-14, -3.75)
  line L177 (-14, -8.75) -> (-12.5, -8.75)
  spline S0 degree 3 poles (-7, 23.3611) (-12.8051, 21.7936) (-12.8999, 17.7118) (-14, 9.5) knots -0.659309 -0.659309 -0.659309 -0.659309 0 0 0 0 projected
  line L178 (-14, -8.75) -> (-12.7, -8.75) projected
  arc A248 (-12.7, -8.75) -> (-11.9767, -11.529) centre (-7, -8.75) ccw projected
  line L179 (-11.9767, -11.529) -> (-9.4156, -17.9617) projected
  arc A249 (-9.4156, -17.9617) -> (-7, -19.6) centre (-7, -17) ccw projected
  arc A250 (-7, -24) -> (-7, -19.6) centre (-7, -21.8) ccw projected
  line L180 (-7, 15) -> (-7, 23.3611) projected
  spline S1 degree 3 poles (-7, 23.3611) (-12.8051, 21.7936) (-12.8999, 17.7118) (-14, 9.5) knots -0.659309 -0.659309 -0.659309 -0.659309 0 0 0 0 projected
  line L181 (-14, -8.75) -> (-12.7, -8.75) projected
  arc A251 (-12.7, -8.75) -> (-11.9767, -11.529) centre (-7, -8.75) ccw projected
  line L182 (-11.9767, -11.529) -> (-9.4156, -17.9617) projected
  arc A252 (-9.4156, -17.9617) -> (-7, -19.6) centre (-7, -17) ccw projected
  arc A253 (-7, -24) -> (-7, -19.6) centre (-7, -21.8) ccw projected
  line L183 (-7, 15) -> (-7, 23.3611) projected
  spline S2 degree 3 poles (-7, 23.3611) (-12.8051, 21.7936) (-12.8999, 17.7118) (-14, 9.5) knots -0.659309 -0.659309 -0.659309 -0.659309 0 0 0 0 projected
  line L184 (-14, -8.75) -> (-12.7, -8.75) projected
  arc A254 (-12.7, -8.75) -> (-11.9767, -11.529) centre (-7, -8.75) ccw projected
  line L185 (-11.9767, -11.529) -> (-9.4156, -17.9617) projected
  arc A255 (-9.4156, -17.9617) -> (-7, -19.6) centre (-7, -17) ccw projected
  arc A256 (-7, -24) -> (-7, -19.6) centre (-7, -21.8) ccw projected
  line L186 (-7, 15) -> (-7, 23.3611) projected
  spline S3 degree 3 poles (-7, 23.3611) (-12.8051, 21.7936) (-12.8999, 17.7118) (-14, 9.5) knots -0.659309 -0.659309 -0.659309 -0.659309 0 0 0 0 projected
  line L187 (-14, -8.75) -> (-12.7, -8.75) projected
  arc A257 (-12.7, -8.75) -> (-11.9767, -11.529) centre (-7, -8.75) ccw projected
  line L188 (-11.9767, -11.529) -> (-9.4156, -17.9617) projected
  arc A258 (-9.4156, -17.9617) -> (-7, -19.6) centre (-7, -17) ccw projected
  arc A259 (-7, -24) -> (-7, -19.6) centre (-7, -21.8) ccw projected
  line L189 (-7, 15) -> (-7, 23.3611) projected
  spline S4 degree 3 poles (-7, 23.3611) (-12.8051, 21.7936) (-12.8999, 17.7118) (-14, 9.5) knots -0.659309 -0.659309 -0.659309 -0.659309 0 0 0 0 projected
  line L190 (-14, -8.75) -> (-12.7, -8.75) projected
  arc A260 (-12.7, -8.75) -> (-11.9767, -11.529) centre (-7, -8.75) ccw projected
  line L191 (-11.9767, -11.529) -> (-9.4156, -17.9617) projected
  arc A261 (-9.4156, -17.9617) -> (-7, -19.6) centre (-7, -17) ccw projected
  arc A262 (-7, -24) -> (-7, -19.6) centre (-7, -21.8) ccw projected
  line L192 (-7, 15) -> (-7, 23.3611) projected
  spline S5 degree 3 poles (-7, 23.3611) (-12.8051, 21.7936) (-12.8999, 17.7118) (-14, 9.5) knots -0.659309 -0.659309 -0.659309 -0.659309 0 0 0 0 projected
  line L193 (-14, -8.75) -> (-12.7, -8.75) projected
  arc A263 (-12.7, -8.75) -> (-11.9767, -11.529) centre (-7, -8.75) ccw projected
  line L194 (-11.9767, -11.529) -> (-9.4156, -17.9617) projected
  arc A264 (-9.4156, -17.9617) -> (-7, -19.6) centre (-7, -17) ccw projected
  arc A265 (-7, -24) -> (-7, -19.6) centre (-7, -21.8) ccw projected
  line L195 (-7, 15) -> (-7, 23.3611) projected
  spline S6 degree 3 poles (-7, 23.3611) (-12.8051, 21.7936) (-12.8999, 17.7118) (-14, 9.5) knots -0.659309 -0.659309 -0.659309 -0.659309 0 0 0 0 projected
  line L196 (-14, -8.75) -> (-12.7, -8.75) projected
  arc A266 (-12.7, -8.75) -> (-11.9767, -11.529) centre (-7, -8.75) ccw projected
  line L197 (-11.9767, -11.529) -> (-9.4156, -17.9617) projected
  arc A267 (-9.4156, -17.9617) -> (-7, -19.6) centre (-7, -17) ccw projected
  arc A268 (-7, -24) -> (-7, -19.6) centre (-7, -21.8) ccw projected
  line L198 (-7, 15) -> (-7, 23.3611) projected
  spline S7 degree 3 poles (-7, 23.3611) (-12.8051, 21.7936) (-12.8999, 17.7118) (-14, 9.5) knots -0.659309 -0.659309 -0.659309 -0.659309 0 0 0 0 projected
  line L199 (-14, -8.75) -> (-12.7, -8.75) projected
  arc A269 (-12.7, -8.75) -> (-11.9767, -11.529) centre (-7, -8.75) ccw projected
  line L200 (-11.9767, -11.529) -> (-9.4156, -17.9617) projected
  arc A270 (-9.4156, -17.9617) -> (-7, -19.6) centre (-7, -17) ccw projected
  arc A271 (-7, -24) -> (-7, -19.6) centre (-7, -21.8) ccw projected
  line L201 (-7, 15) -> (-7, 23.3611) projected
  spline S8 degree 3 poles (-7, 23.3611) (-12.8051, 21.7936) (-12.8999, 17.7118) (-14, 9.5) knots -0.659309 -0.659309 -0.659309 -0.659309 0 0 0 0 projected
  line L202 (-14, -8.75) -> (-12.7, -8.75) projected
  arc A272 (-12.7, -8.75) -> (-11.9767, -11.529) centre (-7, -8.75) ccw projected
  line L203 (-11.9767, -11.529) -> (-9.4156, -17.9617) projected
  arc A273 (-9.4156, -17.9617) -> (-7, -19.6) centre (-7, -17) ccw projected
  arc A274 (-7, -24) -> (-7, -19.6) centre (-7, -21.8) ccw projected
  line L204 (-7, 15) -> (-7, 23.3611) projected
  spline S9 degree 3 poles (-7, 23.3611) (-12.8051, 21.7936) (-12.8999, 17.7118) (-14, 9.5) knots -0.659309 -0.659309 -0.659309 -0.659309 0 0 0 0 projected
  line L205 (-14, -8.75) -> (-12.7, -8.75) projected
  arc A275 (-12.7, -8.75) -> (-11.9767, -11.529) centre (-7, -8.75) ccw projected
  line L206 (-11.9767, -11.529) -> (-9.4156, -17.9617) projected
  arc A276 (-9.4156, -17.9617) -> (-7, -19.6) centre (-7, -17) ccw projected
  arc A277 (-7, -24) -> (-7, -19.6) centre (-7, -21.8) ccw projected
  line L207 (-7, 15) -> (-7, 23.3611) projected
  spline S10 degree 3 poles (-7, 23.3611) (-12.8051, 21.7936) (-12.8999, 17.7118) (-14, 9.5) knots -0.659309 -0.659309 -0.659309 -0.659309 0 0 0 0 projected
  line L208 (-14, -8.75) -> (-12.7, -8.75) projected
  arc A278 (-12.7, -8.75) -> (-11.9767, -11.529) centre (-7, -8.75) ccw projected
  line L209 (-11.9767, -11.529) -> (-9.4156, -17.9617) projected
  arc A279 (-9.4156, -17.9617) -> (-7, -19.6) centre (-7, -17) ccw projected
  arc A280 (-7, -24) -> (-7, -19.6) centre (-7, -21.8) ccw projected
  line L210 (-7, 15) -> (-7, 23.3611) projected
  spline S11 degree 3 poles (-7, 23.3611) (-12.8051, 21.7936) (-12.8999, 17.7118) (-14, 9.5) knots -0.659309 -0.659309 -0.659309 -0.659309 0 0 0 0 projected
  line L211 (-14, -8.75) -> (-12.7, -8.75) projected
  arc A281 (-12.7, -8.75) -> (-11.9767, -11.529) centre (-7, -8.75) ccw projected
  line L212 (-11.9767, -11.529) -> (-9.4156, -17.9617) projected
  arc A282 (-9.4156, -17.9617) -> (-7, -19.6) centre (-7, -17) ccw projected
  arc A283 (-7, -24) -> (-7, -19.6) centre (-7, -21.8) ccw projected
  line L213 (-7, 15) -> (-7, 23.3611) projected
  spline S12 degree 3 poles (-7, 23.3611) (-12.8051, 21.7936) (-12.8999, 17.7118) (-14, 9.5) knots -0.659309 -0.659309 -0.659309 -0.659309 0 0 0 0 projected
  line L214 (-14, -8.75) -> (-12.7, -8.75) projected
  arc A284 (-12.7, -8.75) -> (-11.9767, -11.529) centre (-7, -8.75) ccw projected
  line L215 (-11.9767, -11.529) -> (-9.4156, -17.9617) projected
  arc A285 (-9.4156, -17.9617) -> (-7, -19.6) centre (-7, -17) ccw projected
  arc A286 (-7, -24) -> (-7, -19.6) centre (-7, -21.8) ccw projected
  line L216 (-7, 15) -> (-7, 23.3611) projected
  spline S13 degree 3 poles (-7, 23.3611) (-12.8051, 21.7936) (-12.8999, 17.7118) (-14, 9.5) knots -0.659309 -0.659309 -0.659309 -0.659309 0 0 0 0 projected
  line L217 (-14, -8.75) -> (-12.7, -8.75) projected
  arc A287 (-12.7, -8.75) -> (-11.9767, -11.529) centre (-7, -8.75) ccw projected
  line L218 (-11.9767, -11.529) -> (-9.4156, -17.9617) projected
  arc A288 (-9.4156, -17.9617) -> (-7, -19.6) centre (-7, -17) ccw projected
  arc A289 (-7, -24) -> (-7, -19.6) centre (-7, -21.8) ccw projected
  line L219 (-7, 15) -> (-7, 23.3611) projected
  spline S14 degree 3 poles (-7, 23.3611) (-12.8051, 21.7936) (-12.8999, 17.7118) (-14, 9.5) knots -0.659309 -0.659309 -0.659309 -0.659309 0 0 0 0 projected
  line L220 (-14, -8.75) -> (-12.7, -8.75) projected
  arc A290 (-12.7, -8.75) -> (-11.9767, -11.529) centre (-7, -8.75) ccw projected
  line L221 (-11.9767, -11.529) -> (-9.4156, -17.9617) projected
  arc A291 (-9.4156, -17.9617) -> (-7, -19.6) centre (-7, -17) ccw projected
  arc A292 (-7, -24) -> (-7, -19.6) centre (-7, -21.8) ccw projected
  line L222 (-7, 15) -> (-7, 23.3611) projected
  spline S15 degree 3 poles (-7, 23.3611) (-12.8051, 21.7936) (-12.8999, 17.7118) (-14, 9.5) knots -0.659309 -0.659309 -0.659309 -0.659309 0 0 0 0 projected
  line L223 (-14, -8.75) -> (-12.7, -8.75) projected
  arc A293 (-12.7, -8.75) -> (-11.9767, -11.529) centre (-7, -8.75) ccw projected
  line L224 (-11.9767, -11.529) -> (-9.4156, -17.9617) projected
  arc A294 (-9.4156, -17.9617) -> (-7, -19.6) centre (-7, -17) ccw projected
  arc A295 (-7, -24) -> (-7, -19.6) centre (-7, -21.8) ccw projected
  line L225 (-7, 15) -> (-7, 23.3611) projected
  spline S16 degree 3 poles (-7, 23.3611) (-12.8051, 21.7936) (-12.8999, 17.7118) (-14, 9.5) knots -0.659309 -0.659309 -0.659309 -0.659309 0 0 0 0 projected
  line L226 (-14, -8.75) -> (-12.7, -8.75) projected
  arc A296 (-12.7, -8.75) -> (-11.9767, -11.529) centre (-7, -8.75) ccw projected
  line L227 (-11.9767, -11.529) -> (-9.4156, -17.9617) projected
  arc A297 (-9.4156, -17.9617) -> (-7, -19.6) centre (-7, -17) ccw projected
  arc A298 (-7, -24) -> (-7, -19.6) centre (-7, -21.8) ccw projected
  line L228 (-7, 15) -> (-7, 23.3611) projected
  spline S17 degree 3 poles (-7, 23.3611) (-12.8051, 21.7936) (-12.8999, 17.7118) (-14, 9.5) knots -0.659309 -0.659309 -0.659309 -0.659309 0 0 0 0 projected
  line L229 (-14, -8.75) -> (-12.7, -8.75) projected
  arc A299 (-12.7, -8.75) -> (-11.9767, -11.529) centre (-7, -8.75) ccw projected
  line L230 (-11.9767, -11.529) -> (-9.4156, -17.9617) projected
  arc A300 (-9.4156, -17.9617) -> (-7, -19.6) centre (-7, -17) ccw projected
  arc A301 (-7, -24) -> (-7, -19.6) centre (-7, -21.8) ccw projected
  line L231 (-7, 15) -> (-7, 23.3611) projected
  point P0 (0, 0)
  point P1 (-4, 18)
  point P2 (2, 24)
  point P3 (-2.9442, 24)
  point P4 (-14, -17)
  point P5 (-5.5, -17)
  point P6 (-5.3397, -2.2074)
  point P7 (-7, -14.2949)
  point P8 (-7, -14.25)
  dimension "d0" = 5
extrude "Выдавливание1" add sketch "Эскиз1" along normal blind 5.2 contours L63 L77 L76 A4 L74 L71 A5 | A5 L71 L43 A7 L42 A163 L44 L63 | L71 L74 A4 L117 A5 | A5 L117 A7 L43 L71 | L44 A163 L42 A3 | L76 A201 L117 A4 | A4 L10 A14 L76 A201 | L177 L3 A7 L2 A5 | A5 L76 A4 L177 | A4 L76 A14 L10 | A3 L42 | A5 A14 A4 L76 | L117 A4 L124 A5 | A5 L124 L144 L117 | L76 A14 A4 L124 A201 | A7 L3 S0 L171 L2 | L173 A14 A5 | A4 A14 L76 | L124 A4 A14 A5 | A5 A14 L173 L144 L124 | L117 A201 L124 A4 | A42 | A59
properties part number "end_cap"
